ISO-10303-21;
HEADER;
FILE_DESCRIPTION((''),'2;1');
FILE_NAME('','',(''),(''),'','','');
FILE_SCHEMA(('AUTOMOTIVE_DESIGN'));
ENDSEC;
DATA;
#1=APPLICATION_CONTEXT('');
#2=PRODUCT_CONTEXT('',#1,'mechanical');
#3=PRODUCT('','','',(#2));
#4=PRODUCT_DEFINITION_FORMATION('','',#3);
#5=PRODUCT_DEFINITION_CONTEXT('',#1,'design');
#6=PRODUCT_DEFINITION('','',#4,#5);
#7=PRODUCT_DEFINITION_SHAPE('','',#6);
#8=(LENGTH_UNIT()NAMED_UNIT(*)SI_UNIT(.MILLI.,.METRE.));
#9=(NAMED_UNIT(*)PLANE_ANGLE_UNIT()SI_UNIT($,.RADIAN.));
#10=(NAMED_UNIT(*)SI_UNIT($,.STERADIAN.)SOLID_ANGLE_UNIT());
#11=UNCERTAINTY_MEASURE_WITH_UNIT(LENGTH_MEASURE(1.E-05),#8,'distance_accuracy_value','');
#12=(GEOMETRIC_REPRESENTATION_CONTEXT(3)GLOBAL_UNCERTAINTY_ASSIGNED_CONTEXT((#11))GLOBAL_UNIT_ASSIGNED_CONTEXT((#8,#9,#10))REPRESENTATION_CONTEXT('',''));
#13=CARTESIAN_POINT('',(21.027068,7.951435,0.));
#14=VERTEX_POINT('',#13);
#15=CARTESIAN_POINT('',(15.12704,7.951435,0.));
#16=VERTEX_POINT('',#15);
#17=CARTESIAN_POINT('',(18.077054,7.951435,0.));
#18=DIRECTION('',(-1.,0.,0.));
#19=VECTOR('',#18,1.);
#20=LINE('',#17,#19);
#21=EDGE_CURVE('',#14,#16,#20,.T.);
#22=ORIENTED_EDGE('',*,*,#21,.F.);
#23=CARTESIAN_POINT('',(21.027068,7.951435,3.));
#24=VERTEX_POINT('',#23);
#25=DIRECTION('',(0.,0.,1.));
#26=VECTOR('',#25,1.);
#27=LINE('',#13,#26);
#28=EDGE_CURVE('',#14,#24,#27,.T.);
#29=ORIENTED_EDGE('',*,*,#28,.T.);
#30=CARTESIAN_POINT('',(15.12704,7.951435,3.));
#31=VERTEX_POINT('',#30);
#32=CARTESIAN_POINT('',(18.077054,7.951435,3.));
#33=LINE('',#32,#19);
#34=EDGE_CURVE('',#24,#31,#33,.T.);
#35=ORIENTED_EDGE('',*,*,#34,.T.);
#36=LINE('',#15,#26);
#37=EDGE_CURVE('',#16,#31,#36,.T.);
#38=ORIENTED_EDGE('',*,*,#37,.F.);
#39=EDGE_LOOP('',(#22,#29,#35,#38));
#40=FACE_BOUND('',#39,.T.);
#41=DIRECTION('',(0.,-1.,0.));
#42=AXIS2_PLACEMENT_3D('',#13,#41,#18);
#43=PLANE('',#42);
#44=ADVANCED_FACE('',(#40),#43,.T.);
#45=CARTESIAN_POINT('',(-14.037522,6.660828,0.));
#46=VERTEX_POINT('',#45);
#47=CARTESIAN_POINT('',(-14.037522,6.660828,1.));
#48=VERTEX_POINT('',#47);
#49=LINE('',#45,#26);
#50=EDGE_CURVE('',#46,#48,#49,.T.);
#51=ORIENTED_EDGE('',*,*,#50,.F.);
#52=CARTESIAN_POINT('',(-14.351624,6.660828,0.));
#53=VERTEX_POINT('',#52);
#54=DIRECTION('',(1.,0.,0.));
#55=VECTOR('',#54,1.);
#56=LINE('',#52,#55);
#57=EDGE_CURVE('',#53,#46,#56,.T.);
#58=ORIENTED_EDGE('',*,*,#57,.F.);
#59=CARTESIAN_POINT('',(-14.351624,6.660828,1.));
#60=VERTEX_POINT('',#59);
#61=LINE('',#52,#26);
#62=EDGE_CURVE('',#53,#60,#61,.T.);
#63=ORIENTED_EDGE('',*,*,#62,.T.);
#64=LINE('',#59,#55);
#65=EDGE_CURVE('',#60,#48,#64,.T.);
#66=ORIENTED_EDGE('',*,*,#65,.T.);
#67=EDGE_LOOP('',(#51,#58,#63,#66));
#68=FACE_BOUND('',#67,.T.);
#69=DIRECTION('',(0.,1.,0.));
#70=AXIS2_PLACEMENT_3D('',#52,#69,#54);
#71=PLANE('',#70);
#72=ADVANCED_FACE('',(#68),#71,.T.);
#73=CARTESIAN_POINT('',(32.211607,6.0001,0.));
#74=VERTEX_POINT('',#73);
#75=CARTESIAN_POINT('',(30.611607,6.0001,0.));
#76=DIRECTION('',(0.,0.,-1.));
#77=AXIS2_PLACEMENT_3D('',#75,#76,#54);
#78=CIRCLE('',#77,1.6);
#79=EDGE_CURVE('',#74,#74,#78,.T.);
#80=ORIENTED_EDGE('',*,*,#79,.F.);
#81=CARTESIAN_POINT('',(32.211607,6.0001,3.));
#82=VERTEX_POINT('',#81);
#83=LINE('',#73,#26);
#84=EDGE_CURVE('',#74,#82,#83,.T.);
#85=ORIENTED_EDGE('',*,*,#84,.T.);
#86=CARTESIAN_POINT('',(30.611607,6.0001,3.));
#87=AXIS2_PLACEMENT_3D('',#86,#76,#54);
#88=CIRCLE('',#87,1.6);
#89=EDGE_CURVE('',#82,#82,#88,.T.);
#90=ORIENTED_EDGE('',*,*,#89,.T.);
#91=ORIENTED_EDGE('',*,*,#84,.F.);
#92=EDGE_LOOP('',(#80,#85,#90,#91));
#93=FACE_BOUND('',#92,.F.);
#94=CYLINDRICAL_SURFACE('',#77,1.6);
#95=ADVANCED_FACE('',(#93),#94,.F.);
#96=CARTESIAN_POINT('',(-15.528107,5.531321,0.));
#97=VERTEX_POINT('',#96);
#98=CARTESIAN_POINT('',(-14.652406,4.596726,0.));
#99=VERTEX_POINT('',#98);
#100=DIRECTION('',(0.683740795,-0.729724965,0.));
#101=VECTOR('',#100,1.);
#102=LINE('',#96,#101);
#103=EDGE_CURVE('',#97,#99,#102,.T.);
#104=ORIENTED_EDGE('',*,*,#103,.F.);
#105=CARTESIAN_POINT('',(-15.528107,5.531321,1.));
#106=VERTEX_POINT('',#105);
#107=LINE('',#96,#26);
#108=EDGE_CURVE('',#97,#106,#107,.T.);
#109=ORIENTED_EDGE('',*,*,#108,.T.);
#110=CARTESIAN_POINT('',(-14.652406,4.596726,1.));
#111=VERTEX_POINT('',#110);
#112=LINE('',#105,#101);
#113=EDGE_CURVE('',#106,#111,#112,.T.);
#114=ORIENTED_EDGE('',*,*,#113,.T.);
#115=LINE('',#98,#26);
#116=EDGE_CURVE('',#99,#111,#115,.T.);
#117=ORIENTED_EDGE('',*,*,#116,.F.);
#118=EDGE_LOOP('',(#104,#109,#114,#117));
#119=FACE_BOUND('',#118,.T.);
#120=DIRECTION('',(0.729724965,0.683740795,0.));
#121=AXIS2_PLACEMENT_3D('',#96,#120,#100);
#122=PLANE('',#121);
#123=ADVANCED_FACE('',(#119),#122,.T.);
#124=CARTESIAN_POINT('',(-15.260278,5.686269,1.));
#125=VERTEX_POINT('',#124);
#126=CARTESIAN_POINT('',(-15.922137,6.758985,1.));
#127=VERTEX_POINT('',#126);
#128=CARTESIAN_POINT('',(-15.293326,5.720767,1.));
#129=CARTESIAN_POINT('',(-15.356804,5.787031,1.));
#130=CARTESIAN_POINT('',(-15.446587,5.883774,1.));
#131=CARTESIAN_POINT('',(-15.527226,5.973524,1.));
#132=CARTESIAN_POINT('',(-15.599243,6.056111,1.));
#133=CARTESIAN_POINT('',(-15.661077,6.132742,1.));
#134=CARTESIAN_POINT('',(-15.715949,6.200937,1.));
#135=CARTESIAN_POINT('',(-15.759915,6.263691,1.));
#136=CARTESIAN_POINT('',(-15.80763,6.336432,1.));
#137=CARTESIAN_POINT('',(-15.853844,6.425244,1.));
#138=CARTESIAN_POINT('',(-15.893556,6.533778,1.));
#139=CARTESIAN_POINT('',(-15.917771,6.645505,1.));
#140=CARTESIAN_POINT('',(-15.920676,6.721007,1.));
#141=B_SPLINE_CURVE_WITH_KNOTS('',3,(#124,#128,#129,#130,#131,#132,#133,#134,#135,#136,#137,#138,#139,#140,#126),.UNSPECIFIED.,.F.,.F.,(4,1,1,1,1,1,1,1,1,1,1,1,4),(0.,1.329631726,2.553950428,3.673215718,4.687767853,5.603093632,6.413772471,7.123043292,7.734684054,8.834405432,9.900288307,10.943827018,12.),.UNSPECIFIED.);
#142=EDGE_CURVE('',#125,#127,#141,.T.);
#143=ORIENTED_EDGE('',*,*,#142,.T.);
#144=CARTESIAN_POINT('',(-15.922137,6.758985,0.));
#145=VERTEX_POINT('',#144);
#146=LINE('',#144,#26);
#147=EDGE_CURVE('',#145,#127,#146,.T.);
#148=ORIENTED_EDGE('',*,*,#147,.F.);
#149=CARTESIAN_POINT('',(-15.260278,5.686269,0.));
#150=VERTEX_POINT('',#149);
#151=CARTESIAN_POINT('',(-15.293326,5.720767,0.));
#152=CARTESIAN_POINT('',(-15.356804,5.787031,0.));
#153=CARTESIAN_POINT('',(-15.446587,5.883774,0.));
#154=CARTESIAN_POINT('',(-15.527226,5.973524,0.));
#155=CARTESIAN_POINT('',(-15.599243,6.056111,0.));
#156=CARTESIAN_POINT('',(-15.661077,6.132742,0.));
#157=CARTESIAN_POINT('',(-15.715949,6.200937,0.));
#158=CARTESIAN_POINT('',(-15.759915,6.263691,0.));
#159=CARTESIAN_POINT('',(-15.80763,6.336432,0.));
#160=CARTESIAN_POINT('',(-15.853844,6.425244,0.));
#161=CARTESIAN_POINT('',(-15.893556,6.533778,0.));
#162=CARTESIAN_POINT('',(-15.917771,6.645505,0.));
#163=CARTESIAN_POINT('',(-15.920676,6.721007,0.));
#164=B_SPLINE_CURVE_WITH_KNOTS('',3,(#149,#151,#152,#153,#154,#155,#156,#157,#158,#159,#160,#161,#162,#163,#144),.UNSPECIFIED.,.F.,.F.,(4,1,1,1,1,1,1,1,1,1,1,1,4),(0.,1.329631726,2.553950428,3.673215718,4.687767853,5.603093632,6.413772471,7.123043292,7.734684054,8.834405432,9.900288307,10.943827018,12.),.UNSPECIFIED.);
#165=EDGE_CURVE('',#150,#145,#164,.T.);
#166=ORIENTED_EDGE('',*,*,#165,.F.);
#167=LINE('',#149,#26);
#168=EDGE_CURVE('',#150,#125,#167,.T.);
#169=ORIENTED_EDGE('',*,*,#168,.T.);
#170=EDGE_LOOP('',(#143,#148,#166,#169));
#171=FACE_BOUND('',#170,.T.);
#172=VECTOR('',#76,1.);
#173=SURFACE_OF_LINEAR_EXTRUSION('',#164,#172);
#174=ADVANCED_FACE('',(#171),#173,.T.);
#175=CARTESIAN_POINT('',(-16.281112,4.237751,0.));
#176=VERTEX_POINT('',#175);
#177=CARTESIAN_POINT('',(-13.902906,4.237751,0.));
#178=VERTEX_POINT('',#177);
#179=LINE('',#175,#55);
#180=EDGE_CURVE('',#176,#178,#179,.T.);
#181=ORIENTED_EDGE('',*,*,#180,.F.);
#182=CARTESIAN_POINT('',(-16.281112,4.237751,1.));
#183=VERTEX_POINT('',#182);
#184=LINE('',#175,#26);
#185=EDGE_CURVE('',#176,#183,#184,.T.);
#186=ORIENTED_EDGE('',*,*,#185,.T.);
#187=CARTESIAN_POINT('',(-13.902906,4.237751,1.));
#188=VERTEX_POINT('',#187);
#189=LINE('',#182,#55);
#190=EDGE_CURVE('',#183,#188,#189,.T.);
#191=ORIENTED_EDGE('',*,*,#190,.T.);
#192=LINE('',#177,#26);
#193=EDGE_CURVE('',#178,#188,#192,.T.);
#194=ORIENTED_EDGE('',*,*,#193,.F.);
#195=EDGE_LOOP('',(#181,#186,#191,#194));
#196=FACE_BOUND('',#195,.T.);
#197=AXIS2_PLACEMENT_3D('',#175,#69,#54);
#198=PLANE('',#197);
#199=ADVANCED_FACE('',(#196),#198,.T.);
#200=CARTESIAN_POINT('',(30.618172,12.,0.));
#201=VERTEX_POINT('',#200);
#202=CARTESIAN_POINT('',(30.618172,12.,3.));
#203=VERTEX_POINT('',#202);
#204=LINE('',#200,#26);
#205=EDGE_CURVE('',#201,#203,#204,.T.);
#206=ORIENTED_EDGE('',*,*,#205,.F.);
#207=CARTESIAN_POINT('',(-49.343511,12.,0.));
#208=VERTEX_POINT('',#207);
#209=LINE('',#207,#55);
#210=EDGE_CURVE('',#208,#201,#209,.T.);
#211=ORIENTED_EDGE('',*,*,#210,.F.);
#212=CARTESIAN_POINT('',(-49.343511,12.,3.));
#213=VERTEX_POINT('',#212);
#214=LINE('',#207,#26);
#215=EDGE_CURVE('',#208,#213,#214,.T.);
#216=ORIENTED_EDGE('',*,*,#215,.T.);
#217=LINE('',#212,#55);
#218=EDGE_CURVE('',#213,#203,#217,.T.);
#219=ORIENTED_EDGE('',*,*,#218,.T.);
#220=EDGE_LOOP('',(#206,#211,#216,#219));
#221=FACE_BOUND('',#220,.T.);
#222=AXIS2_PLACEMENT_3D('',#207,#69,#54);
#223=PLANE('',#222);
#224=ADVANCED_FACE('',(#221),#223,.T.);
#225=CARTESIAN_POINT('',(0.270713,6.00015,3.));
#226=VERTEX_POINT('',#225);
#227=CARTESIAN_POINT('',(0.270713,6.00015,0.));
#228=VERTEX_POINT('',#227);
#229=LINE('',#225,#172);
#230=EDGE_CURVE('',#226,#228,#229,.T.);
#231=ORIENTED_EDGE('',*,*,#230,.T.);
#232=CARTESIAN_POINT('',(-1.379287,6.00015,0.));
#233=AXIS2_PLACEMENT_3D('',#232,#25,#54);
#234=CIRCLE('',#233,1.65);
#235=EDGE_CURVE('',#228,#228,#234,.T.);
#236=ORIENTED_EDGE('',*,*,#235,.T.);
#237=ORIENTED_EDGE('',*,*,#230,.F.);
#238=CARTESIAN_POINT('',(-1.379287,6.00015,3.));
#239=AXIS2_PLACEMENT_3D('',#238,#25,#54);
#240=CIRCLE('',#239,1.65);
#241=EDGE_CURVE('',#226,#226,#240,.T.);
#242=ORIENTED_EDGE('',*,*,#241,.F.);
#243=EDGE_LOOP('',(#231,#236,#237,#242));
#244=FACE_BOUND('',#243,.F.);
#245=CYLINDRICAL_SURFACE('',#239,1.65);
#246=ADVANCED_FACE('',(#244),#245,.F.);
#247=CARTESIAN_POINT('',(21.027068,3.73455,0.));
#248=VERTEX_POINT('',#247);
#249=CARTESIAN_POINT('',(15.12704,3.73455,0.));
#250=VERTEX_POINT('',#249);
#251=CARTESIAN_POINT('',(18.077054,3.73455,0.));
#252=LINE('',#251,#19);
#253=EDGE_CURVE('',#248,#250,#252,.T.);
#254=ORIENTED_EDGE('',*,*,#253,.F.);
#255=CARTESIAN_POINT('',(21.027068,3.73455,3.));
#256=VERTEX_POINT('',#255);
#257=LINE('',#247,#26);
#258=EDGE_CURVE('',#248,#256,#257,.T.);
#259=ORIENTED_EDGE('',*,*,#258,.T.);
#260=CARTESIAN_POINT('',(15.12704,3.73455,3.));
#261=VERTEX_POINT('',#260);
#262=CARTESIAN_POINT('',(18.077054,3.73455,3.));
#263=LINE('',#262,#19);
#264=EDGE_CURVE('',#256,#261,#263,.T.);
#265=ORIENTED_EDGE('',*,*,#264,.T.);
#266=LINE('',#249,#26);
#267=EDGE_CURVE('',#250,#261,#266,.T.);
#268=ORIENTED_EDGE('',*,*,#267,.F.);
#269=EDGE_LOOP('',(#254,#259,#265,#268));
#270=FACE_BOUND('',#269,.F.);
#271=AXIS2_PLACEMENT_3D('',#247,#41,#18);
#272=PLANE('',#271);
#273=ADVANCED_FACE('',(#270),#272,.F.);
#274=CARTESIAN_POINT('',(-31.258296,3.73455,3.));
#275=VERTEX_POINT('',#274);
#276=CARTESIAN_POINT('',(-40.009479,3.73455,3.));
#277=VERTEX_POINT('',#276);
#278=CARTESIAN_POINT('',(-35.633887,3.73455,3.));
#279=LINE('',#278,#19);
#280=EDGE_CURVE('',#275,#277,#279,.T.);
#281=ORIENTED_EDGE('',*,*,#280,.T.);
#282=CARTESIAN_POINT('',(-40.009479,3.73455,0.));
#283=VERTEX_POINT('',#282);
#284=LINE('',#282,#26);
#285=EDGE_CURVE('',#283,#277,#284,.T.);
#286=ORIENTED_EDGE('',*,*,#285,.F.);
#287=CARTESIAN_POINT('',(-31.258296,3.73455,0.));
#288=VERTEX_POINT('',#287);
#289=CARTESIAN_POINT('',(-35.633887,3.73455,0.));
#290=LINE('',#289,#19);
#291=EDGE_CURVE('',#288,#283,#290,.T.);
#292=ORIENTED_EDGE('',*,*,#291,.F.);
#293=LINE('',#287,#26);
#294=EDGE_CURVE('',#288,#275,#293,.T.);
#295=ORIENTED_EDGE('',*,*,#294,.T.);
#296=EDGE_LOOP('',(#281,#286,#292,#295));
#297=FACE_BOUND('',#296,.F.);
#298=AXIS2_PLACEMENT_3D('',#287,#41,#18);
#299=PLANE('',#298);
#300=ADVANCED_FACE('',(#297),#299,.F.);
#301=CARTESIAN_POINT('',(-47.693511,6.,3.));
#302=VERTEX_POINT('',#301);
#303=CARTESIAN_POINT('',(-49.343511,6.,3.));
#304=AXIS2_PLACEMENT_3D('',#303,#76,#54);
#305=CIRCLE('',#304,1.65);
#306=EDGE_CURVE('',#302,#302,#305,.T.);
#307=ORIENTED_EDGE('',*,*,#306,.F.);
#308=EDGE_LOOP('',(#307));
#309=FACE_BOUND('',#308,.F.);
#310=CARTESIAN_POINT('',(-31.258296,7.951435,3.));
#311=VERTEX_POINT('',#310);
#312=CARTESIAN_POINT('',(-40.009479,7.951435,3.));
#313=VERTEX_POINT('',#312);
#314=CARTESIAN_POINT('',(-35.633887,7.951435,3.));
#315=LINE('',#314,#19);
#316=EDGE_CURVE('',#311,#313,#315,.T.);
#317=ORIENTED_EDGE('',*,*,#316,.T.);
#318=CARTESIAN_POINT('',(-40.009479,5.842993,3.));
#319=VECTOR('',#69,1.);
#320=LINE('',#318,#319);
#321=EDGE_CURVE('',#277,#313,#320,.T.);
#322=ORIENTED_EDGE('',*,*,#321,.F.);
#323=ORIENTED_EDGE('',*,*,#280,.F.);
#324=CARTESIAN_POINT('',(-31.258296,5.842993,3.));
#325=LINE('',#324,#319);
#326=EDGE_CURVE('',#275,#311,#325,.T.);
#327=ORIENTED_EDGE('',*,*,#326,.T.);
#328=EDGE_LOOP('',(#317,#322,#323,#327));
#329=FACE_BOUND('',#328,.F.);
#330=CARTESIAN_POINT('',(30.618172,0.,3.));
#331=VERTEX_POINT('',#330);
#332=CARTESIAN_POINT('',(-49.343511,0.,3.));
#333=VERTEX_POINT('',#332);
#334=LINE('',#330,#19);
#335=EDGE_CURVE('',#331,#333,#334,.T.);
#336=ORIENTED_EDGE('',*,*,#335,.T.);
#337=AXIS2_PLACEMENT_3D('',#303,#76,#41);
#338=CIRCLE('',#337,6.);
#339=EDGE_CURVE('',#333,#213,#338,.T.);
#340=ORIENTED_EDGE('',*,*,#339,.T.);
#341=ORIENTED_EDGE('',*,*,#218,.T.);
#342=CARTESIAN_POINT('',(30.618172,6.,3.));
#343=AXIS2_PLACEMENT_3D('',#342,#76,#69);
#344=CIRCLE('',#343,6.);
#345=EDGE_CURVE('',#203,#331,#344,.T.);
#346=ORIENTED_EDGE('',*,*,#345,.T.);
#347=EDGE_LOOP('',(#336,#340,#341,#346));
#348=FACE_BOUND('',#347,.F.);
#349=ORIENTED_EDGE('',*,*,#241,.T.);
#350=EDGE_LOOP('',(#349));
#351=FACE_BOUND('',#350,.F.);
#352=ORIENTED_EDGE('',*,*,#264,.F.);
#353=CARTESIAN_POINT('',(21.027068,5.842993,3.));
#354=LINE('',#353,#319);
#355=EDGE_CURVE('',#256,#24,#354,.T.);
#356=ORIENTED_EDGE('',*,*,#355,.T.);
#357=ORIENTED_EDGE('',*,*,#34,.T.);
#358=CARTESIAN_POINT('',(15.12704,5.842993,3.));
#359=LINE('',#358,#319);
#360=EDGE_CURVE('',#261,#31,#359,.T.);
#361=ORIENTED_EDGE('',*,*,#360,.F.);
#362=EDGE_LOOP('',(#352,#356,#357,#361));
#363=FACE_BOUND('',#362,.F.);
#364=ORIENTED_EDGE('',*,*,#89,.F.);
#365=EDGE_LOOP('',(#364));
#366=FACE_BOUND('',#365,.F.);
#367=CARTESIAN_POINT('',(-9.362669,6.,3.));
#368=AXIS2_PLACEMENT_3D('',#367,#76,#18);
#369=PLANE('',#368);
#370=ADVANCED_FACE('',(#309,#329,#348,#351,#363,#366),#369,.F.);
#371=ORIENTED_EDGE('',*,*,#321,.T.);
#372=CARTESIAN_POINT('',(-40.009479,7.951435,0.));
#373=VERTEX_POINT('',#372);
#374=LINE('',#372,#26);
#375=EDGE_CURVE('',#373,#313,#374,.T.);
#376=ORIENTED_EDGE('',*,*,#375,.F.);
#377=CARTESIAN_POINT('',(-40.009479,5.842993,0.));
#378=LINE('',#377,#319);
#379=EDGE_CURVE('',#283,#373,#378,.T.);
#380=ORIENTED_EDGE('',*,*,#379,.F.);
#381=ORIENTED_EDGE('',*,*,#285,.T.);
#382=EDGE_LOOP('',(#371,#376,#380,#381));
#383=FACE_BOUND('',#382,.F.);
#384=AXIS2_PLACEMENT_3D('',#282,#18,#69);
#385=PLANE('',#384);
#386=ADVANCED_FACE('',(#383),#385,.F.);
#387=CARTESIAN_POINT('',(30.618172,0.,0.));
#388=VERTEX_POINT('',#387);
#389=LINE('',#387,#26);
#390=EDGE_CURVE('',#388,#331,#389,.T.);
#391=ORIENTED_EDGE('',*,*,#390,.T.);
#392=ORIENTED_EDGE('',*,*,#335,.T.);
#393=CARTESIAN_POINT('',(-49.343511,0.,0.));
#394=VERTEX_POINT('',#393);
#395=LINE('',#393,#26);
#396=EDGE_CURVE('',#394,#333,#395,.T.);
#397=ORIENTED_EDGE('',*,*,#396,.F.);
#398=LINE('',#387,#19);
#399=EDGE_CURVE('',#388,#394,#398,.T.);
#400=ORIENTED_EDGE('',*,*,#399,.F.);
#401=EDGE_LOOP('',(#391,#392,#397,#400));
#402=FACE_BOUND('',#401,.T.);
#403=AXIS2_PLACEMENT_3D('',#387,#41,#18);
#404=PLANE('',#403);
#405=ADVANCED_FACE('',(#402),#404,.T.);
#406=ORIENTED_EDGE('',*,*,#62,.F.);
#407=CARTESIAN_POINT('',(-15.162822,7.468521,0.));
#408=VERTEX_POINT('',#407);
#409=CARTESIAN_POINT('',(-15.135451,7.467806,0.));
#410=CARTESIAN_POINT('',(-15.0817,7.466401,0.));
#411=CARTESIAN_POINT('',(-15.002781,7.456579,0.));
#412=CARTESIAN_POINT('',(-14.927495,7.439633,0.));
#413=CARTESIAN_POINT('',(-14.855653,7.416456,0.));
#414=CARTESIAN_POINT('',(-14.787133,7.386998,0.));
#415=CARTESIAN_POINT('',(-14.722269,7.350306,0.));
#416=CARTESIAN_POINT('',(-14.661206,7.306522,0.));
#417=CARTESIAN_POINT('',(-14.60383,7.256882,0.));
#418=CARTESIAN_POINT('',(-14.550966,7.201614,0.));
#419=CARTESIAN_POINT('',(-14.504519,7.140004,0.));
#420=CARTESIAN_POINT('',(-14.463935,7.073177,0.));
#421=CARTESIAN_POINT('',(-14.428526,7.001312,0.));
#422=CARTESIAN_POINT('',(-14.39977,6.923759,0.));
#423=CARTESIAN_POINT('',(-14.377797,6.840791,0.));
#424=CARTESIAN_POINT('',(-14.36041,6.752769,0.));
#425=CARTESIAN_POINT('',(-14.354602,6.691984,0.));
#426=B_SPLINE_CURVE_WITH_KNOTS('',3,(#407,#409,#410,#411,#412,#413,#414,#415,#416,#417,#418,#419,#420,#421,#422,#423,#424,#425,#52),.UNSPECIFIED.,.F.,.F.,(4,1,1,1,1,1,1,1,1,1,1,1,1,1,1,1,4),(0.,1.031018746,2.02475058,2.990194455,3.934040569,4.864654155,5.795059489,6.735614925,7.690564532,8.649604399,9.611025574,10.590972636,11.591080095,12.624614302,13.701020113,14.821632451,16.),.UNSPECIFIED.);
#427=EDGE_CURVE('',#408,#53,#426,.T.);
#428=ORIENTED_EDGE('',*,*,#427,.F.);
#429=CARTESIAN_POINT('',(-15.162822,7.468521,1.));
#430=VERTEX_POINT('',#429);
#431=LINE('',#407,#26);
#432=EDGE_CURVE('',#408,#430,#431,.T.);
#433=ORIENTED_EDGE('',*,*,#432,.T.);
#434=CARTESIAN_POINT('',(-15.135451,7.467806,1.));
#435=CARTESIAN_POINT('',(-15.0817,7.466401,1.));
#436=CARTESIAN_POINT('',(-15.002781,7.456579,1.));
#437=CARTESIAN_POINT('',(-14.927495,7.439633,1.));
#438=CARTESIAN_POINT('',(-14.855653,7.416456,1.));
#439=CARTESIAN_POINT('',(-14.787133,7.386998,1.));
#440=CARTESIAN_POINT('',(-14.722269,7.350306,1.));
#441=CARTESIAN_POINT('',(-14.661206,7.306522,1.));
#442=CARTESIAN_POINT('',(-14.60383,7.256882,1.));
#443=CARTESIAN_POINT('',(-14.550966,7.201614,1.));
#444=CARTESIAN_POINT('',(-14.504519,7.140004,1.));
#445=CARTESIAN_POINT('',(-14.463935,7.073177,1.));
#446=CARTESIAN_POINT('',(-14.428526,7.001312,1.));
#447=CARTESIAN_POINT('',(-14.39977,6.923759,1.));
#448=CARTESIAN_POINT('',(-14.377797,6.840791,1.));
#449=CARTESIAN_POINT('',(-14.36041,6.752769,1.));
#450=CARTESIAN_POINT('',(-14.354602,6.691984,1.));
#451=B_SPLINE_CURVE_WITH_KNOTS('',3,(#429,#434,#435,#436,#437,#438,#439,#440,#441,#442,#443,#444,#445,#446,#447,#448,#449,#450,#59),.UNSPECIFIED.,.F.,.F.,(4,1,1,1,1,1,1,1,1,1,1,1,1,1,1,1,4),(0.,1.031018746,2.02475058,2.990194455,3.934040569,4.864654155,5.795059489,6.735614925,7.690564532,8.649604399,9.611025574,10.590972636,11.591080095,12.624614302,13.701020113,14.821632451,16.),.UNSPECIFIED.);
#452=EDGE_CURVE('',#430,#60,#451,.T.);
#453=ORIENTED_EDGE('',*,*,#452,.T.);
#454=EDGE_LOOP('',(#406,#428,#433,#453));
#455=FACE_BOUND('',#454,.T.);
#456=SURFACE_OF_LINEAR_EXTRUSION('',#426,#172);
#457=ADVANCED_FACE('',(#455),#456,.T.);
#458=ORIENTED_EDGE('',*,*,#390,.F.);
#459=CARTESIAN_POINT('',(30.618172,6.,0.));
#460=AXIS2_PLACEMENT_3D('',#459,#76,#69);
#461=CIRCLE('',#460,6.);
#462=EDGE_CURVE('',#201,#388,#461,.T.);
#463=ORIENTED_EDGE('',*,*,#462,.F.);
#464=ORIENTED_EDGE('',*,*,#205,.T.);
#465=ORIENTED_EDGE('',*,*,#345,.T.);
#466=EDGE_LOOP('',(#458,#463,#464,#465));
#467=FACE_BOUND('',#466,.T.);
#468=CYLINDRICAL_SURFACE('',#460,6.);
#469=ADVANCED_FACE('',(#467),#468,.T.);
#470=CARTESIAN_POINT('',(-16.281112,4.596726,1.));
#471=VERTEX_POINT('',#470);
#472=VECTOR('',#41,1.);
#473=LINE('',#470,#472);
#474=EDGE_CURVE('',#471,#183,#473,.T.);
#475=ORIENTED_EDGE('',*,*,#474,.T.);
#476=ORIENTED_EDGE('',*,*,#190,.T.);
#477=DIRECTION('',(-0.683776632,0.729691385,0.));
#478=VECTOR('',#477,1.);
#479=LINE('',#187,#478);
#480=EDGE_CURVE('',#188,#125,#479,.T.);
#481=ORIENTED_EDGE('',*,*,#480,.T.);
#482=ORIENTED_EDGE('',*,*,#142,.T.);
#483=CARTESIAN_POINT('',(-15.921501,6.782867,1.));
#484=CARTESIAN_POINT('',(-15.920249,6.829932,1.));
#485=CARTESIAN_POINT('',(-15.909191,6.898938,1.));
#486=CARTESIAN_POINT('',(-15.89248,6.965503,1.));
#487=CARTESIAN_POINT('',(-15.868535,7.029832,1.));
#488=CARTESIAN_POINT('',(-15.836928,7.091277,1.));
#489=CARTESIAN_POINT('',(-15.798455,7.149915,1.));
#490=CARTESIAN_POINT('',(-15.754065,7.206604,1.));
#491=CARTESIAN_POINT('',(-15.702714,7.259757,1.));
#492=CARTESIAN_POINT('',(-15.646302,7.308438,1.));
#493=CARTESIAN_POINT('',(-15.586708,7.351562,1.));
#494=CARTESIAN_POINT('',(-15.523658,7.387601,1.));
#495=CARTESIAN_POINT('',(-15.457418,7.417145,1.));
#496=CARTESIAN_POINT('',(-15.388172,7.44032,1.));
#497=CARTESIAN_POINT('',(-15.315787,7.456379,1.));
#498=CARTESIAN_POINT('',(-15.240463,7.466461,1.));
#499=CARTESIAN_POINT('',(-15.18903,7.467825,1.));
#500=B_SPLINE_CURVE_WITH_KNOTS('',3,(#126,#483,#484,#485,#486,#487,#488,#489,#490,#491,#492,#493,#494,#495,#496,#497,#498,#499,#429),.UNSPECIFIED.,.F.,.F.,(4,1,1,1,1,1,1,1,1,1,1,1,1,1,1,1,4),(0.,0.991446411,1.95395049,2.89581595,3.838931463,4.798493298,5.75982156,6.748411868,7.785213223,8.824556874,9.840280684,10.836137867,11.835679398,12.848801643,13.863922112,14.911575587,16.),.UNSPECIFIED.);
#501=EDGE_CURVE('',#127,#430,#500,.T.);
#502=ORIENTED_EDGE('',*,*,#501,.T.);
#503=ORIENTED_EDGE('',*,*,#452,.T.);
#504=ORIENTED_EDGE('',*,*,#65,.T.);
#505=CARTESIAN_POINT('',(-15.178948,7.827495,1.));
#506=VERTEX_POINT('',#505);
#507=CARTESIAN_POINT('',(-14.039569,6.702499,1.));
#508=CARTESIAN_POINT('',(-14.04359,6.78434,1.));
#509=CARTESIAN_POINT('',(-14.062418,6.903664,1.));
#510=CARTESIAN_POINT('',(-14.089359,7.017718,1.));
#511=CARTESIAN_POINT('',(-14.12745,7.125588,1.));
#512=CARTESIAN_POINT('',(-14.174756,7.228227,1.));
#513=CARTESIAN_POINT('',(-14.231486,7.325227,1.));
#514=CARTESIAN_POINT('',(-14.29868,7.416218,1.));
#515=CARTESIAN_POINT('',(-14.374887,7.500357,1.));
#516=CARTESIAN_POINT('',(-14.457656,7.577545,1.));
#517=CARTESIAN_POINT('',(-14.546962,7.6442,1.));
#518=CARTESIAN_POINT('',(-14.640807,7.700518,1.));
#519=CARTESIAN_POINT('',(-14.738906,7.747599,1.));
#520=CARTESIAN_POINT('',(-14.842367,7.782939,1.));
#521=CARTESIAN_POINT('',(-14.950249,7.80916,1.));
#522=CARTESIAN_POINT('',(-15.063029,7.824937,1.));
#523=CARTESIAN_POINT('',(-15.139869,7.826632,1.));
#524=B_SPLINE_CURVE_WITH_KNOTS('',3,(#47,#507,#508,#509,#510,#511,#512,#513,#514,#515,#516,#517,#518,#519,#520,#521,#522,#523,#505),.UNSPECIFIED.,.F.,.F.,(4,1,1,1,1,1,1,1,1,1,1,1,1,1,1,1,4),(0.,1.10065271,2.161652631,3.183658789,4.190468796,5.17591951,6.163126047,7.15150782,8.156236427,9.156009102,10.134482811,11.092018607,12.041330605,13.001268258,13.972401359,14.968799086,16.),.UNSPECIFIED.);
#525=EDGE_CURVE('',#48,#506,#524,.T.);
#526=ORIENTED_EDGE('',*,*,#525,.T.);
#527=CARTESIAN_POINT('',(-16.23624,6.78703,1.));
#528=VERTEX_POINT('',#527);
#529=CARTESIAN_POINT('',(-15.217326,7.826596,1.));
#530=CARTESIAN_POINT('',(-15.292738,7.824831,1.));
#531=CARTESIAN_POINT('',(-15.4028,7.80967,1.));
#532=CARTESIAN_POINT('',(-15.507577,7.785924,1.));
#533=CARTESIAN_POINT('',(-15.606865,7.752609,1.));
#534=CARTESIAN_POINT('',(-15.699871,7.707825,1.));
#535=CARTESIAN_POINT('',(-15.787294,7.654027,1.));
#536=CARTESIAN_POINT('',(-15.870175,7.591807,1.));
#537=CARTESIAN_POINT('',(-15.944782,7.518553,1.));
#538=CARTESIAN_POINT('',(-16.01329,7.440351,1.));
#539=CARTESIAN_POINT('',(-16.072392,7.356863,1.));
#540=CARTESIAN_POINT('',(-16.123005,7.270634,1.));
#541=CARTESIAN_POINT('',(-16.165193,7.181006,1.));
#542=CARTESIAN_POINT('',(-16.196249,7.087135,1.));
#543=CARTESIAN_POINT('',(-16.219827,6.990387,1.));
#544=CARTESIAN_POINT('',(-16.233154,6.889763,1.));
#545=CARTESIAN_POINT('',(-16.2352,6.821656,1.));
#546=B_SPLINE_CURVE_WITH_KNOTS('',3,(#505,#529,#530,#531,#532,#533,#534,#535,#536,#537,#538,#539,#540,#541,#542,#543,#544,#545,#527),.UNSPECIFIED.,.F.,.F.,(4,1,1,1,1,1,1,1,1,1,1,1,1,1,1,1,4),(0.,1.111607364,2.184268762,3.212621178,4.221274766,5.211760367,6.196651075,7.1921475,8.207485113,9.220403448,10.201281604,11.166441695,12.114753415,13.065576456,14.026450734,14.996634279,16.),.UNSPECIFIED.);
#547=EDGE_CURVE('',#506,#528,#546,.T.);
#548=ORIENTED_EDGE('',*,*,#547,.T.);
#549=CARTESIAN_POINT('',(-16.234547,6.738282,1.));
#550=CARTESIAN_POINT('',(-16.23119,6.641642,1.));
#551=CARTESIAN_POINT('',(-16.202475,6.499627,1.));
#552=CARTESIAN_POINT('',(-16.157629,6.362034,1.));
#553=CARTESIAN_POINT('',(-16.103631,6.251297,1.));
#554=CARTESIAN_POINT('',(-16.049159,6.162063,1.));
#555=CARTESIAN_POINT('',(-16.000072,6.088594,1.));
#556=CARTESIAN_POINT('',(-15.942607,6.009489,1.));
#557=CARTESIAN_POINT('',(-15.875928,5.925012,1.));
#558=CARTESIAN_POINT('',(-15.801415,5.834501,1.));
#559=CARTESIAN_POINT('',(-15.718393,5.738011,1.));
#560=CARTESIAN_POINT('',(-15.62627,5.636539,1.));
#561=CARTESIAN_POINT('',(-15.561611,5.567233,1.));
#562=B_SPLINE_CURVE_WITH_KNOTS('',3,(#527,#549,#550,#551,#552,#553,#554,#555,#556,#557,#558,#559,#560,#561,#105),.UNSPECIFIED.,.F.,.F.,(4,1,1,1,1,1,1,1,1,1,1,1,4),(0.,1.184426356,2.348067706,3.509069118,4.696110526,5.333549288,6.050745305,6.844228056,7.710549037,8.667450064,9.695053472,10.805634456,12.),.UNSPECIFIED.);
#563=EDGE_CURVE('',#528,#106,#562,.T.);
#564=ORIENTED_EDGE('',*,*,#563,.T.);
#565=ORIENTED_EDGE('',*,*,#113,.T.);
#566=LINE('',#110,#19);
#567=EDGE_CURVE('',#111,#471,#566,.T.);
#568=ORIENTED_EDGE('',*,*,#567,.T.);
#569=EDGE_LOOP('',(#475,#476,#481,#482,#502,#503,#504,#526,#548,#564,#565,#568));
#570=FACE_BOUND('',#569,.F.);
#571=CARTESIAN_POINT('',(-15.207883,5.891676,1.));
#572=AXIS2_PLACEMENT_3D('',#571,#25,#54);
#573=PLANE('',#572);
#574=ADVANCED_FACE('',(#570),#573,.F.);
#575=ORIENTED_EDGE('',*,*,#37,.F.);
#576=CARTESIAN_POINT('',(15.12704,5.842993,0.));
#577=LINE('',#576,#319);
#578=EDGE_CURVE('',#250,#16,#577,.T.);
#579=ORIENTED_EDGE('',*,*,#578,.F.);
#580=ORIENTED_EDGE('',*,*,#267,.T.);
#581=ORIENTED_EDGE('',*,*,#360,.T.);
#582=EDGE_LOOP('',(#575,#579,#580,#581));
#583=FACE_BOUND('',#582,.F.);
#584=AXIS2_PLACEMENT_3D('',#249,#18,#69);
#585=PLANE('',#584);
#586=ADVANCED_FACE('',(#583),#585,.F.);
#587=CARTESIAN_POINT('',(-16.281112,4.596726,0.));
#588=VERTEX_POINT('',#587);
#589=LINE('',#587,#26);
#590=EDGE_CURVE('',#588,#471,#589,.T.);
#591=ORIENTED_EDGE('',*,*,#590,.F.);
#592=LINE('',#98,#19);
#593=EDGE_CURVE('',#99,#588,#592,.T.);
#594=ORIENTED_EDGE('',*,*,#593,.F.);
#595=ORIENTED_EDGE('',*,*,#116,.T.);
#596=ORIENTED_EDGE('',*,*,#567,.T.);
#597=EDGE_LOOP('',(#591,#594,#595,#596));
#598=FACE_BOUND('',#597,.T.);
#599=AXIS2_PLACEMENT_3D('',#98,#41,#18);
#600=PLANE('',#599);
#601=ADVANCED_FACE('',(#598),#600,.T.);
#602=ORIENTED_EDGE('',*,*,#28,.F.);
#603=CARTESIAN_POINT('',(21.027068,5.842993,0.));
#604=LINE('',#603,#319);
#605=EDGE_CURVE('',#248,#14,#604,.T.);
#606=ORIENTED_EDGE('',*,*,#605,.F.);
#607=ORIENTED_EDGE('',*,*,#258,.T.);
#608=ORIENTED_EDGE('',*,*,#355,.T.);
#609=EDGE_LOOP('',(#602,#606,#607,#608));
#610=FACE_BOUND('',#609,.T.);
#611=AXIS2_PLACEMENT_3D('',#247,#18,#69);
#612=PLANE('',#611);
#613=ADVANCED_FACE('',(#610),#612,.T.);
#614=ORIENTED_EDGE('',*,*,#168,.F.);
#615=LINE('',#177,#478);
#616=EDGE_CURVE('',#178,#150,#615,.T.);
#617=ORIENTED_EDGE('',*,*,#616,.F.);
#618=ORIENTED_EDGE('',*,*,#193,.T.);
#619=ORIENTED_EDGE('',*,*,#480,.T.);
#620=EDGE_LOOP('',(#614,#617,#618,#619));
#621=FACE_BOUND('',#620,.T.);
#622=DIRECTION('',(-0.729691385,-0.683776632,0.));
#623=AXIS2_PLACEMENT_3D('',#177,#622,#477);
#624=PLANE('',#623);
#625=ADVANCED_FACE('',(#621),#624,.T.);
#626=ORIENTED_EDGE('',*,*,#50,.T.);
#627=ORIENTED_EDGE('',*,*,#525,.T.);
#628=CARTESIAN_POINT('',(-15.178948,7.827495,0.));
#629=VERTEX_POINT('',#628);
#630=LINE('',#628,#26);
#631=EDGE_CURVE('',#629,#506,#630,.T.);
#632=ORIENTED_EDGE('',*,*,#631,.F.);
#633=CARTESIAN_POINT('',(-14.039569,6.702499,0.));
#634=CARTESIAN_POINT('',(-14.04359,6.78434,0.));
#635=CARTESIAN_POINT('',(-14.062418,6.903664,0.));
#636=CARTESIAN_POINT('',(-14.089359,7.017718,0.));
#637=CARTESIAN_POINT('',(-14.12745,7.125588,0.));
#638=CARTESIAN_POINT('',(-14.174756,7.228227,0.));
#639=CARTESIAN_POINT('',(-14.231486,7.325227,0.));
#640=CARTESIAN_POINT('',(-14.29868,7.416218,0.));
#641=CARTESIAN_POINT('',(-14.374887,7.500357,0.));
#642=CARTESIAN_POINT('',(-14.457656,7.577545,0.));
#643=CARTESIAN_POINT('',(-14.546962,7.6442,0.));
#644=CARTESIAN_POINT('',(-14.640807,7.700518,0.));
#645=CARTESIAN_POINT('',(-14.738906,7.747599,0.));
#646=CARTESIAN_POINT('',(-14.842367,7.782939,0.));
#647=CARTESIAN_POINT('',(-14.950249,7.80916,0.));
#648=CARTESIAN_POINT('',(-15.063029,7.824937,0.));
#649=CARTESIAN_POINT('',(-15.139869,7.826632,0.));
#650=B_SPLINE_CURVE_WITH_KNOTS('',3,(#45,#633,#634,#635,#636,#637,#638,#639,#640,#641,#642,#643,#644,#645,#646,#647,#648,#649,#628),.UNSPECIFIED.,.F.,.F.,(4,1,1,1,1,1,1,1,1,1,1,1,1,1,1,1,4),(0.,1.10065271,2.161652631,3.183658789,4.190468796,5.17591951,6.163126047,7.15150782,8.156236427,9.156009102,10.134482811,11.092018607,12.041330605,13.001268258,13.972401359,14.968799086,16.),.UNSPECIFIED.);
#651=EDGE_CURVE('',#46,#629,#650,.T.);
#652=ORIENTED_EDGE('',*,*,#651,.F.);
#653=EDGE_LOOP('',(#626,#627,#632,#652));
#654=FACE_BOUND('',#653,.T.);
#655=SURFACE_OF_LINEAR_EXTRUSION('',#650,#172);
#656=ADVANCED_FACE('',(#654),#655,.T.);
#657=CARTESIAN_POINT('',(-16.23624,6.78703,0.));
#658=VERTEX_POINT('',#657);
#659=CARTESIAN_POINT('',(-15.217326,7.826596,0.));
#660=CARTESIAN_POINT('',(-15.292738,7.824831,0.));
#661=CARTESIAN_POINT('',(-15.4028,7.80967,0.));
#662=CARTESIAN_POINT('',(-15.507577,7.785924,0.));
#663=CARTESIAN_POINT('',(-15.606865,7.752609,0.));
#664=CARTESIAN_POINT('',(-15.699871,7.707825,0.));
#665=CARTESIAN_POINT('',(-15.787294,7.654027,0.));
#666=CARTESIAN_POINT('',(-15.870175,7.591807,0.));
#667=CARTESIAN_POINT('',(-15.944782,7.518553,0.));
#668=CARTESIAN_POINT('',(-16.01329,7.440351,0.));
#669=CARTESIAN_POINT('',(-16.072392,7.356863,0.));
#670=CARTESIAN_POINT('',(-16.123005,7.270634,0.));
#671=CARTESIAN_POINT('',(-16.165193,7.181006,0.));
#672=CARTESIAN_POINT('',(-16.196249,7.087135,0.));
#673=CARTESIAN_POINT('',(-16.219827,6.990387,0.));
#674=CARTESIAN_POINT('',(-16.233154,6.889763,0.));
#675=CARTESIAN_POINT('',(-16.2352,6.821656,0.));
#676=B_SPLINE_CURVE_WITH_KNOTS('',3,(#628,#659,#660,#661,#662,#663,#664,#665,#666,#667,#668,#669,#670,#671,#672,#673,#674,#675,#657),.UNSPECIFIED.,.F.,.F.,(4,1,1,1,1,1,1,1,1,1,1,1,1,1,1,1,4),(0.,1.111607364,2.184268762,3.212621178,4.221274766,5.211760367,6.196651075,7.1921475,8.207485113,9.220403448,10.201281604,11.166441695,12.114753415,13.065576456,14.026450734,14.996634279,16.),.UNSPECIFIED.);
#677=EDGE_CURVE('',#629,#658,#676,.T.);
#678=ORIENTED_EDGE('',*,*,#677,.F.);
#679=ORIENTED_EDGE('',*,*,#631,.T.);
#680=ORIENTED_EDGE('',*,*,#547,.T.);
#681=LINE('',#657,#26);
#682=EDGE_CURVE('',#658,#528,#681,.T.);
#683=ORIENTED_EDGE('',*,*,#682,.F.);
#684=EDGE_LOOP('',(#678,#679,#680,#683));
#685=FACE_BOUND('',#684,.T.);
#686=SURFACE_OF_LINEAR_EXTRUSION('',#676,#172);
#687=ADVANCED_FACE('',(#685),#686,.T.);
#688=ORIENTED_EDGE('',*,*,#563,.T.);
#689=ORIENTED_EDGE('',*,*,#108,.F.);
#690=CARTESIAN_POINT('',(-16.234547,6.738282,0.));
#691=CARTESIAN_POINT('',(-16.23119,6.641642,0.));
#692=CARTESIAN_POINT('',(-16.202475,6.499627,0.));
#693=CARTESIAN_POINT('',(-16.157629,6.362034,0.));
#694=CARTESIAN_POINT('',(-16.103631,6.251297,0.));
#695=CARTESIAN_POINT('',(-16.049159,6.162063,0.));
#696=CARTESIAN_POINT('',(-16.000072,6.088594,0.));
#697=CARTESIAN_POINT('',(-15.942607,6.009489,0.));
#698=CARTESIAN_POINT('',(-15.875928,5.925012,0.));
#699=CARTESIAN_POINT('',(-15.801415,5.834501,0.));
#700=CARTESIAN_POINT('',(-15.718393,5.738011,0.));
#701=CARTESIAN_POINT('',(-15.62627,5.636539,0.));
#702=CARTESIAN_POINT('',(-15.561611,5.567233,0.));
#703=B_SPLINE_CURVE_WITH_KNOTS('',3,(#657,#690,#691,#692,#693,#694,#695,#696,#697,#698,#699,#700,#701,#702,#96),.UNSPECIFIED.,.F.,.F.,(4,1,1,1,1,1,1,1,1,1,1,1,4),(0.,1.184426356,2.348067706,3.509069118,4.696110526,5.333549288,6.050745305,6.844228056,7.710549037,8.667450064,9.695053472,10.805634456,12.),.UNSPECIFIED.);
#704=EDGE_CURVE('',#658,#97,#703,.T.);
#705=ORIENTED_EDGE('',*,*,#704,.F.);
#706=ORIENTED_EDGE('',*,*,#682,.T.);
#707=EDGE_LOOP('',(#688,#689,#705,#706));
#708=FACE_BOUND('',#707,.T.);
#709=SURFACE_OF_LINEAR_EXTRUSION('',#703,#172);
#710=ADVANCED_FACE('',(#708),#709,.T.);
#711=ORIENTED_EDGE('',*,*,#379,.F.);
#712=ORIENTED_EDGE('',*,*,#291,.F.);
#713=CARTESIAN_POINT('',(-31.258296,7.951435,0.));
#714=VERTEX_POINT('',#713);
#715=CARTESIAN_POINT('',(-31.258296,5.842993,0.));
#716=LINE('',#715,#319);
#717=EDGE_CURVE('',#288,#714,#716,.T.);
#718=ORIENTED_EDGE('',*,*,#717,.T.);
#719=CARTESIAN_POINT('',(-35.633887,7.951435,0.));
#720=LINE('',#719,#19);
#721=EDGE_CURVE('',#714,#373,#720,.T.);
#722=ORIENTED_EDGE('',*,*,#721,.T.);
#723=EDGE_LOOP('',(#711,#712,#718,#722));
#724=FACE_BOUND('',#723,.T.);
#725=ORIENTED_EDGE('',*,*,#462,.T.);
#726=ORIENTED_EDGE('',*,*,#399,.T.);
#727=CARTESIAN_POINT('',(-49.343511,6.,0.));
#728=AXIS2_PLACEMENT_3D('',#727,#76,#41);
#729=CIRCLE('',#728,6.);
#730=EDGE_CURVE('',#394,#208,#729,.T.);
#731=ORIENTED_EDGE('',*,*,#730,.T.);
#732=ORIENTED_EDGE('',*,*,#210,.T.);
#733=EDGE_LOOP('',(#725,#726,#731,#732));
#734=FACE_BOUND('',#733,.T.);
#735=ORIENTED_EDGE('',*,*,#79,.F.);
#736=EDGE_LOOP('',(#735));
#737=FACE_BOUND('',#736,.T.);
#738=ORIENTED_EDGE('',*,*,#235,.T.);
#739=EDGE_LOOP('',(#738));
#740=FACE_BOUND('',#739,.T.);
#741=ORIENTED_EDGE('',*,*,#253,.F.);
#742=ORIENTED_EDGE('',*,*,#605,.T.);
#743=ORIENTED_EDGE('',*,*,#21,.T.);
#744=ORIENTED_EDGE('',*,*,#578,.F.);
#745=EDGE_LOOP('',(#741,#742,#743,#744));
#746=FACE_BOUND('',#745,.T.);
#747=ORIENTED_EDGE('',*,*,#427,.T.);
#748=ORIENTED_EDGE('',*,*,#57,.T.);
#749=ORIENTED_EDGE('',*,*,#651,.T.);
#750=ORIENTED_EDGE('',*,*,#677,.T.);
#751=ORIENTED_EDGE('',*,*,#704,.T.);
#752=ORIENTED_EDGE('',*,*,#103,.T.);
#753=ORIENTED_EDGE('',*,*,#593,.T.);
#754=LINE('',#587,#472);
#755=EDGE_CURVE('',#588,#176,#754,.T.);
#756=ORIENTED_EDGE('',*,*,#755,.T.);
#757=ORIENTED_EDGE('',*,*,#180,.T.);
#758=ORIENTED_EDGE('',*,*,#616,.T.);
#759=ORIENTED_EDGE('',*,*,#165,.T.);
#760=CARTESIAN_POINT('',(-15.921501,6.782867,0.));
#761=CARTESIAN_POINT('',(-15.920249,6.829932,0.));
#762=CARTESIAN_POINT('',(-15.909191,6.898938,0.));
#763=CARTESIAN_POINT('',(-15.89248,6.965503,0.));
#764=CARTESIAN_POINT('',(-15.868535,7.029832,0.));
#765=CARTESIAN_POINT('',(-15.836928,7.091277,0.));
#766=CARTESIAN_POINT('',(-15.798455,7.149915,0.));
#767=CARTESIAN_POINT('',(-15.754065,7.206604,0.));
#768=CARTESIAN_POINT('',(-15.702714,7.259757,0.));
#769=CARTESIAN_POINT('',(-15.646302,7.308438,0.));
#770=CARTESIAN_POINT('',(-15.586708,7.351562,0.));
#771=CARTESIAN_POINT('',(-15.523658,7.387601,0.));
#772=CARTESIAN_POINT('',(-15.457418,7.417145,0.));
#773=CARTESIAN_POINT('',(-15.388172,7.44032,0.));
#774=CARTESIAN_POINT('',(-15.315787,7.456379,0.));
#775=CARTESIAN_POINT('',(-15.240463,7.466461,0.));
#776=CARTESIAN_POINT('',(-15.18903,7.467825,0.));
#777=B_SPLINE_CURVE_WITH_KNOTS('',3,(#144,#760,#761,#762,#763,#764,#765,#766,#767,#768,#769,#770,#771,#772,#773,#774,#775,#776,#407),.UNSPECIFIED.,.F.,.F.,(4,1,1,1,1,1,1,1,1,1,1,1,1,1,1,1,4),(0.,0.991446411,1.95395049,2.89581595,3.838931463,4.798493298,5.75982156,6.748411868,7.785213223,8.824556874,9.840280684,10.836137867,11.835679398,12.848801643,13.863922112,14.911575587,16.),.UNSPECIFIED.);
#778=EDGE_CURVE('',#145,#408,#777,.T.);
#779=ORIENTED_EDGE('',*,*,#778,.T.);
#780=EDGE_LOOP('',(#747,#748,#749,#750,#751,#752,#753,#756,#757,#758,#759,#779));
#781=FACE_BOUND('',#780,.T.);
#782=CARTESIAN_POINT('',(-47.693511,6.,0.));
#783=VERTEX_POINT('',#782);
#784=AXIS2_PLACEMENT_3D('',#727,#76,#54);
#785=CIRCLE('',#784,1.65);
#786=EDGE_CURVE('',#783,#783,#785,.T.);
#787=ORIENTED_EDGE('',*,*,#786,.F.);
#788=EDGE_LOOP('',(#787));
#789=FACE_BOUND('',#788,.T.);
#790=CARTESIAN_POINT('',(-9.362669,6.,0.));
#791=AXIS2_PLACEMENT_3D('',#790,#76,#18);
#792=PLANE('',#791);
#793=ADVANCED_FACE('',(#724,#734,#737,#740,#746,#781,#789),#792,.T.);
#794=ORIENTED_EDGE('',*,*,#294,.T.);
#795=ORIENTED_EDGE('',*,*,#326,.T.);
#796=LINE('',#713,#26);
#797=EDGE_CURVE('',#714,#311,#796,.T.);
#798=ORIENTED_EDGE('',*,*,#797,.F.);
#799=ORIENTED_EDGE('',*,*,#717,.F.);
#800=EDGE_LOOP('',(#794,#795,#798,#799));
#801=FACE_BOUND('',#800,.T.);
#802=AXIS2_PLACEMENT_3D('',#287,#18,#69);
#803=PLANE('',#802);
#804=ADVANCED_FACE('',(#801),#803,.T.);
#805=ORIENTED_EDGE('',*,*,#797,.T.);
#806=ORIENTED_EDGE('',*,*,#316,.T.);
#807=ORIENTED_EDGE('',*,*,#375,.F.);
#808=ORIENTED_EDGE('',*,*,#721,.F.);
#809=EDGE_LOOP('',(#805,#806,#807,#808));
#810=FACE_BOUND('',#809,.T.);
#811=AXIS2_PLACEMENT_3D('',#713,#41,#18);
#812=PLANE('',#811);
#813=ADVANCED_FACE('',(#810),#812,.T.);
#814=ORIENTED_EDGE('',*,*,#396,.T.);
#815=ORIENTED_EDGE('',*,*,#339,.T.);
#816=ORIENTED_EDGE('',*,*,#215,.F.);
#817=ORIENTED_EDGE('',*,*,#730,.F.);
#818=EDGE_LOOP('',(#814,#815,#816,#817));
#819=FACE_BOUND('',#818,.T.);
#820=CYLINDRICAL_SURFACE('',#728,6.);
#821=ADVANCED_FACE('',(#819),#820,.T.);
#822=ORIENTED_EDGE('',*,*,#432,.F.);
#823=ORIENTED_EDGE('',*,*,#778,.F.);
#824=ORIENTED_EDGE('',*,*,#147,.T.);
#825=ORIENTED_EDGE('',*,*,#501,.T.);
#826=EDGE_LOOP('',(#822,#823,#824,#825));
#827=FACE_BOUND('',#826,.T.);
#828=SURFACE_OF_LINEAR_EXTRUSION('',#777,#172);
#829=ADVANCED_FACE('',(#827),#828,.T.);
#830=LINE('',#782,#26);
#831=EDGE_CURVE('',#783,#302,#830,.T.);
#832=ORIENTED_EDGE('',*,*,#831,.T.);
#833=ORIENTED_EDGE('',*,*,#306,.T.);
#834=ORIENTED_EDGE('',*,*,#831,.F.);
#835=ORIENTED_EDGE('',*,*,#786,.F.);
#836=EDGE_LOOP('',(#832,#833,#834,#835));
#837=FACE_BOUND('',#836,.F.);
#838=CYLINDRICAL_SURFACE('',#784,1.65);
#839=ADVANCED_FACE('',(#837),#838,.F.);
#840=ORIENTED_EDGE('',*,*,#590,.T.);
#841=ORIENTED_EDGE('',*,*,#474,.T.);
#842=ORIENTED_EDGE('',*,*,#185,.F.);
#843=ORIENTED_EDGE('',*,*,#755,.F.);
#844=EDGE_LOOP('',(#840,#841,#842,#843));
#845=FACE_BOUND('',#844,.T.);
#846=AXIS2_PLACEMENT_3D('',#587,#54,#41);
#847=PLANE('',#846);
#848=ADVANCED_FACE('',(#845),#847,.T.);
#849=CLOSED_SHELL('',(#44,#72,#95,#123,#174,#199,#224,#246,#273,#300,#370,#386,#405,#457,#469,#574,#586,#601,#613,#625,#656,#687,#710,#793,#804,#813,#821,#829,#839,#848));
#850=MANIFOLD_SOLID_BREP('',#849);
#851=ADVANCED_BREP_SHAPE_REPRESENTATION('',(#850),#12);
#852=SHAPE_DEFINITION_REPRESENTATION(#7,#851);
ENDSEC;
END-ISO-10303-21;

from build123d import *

# Parameters (mm, degrees)
SKETCH_1_R          = 1.65
SKETCH_1_R_2        = 1.3
SKETCH_1_R_3        = 1.6
SKETCH_1_W          = 8.751182885
SKETCH_1_H          = 4.216885397
SKETCH_1_W_2        = 5.900028074
EXTRUDE_1_DEPTH     = 3
SKETCH_2_R          = 1.65
CUT_EXTRUDE_1_DEPTH = 57.708942736
CUT_EXTRUDE_3_DEPTH = 1


with BuildPart() as part:
    # 草图1 → 凸台-拉伸1 (new body)
    with BuildSketch(Plane(origin=(0, 0, 0), x_dir=(-1, 0, 0), z_dir=(0, 0, -1))):
        with BuildLine():
            Line((-30.618171933, 0), (49.343510787, 0))
            ThreePointArc((49.343510787, 0), (55.343510787, 6), (49.343510787, 12))
            Line((49.343510787, 12), (-30.618171933, 12))
            ThreePointArc((-30.618171933, 12), (-36.618171933, 6), (-30.618171933, 0))
        make_face()
        with Locations(Location((49.343510787, 6, 0), (0, 0, 180))):
            Circle(SKETCH_1_R, mode=Mode.SUBTRACT)
        with Locations(Location((1.379286828, 6.00015, 0), (0, 0, 180))):
            Circle(SKETCH_1_R_2, mode=Mode.SUBTRACT)
        with Locations(Location((-30.611606698, 6.0001, 0), (0, 0, 180))):
            Circle(SKETCH_1_R_3, mode=Mode.SUBTRACT)
        with Locations((35.633887137, 5.842992625)):
            Rectangle(SKETCH_1_W, SKETCH_1_H, mode=Mode.SUBTRACT)
        with Locations((-18.07705416, 5.842992625)):
            Rectangle(SKETCH_1_W_2, SKETCH_1_H, mode=Mode.SUBTRACT)
    extrude(amount=-EXTRUDE_1_DEPTH)

    # 草图2 → 切除-拉伸1 (cut, through all)
    with BuildSketch(Plane.XY.offset(3)):
        with Locations((-49.343510787, 6)):
            Circle(SKETCH_2_R)
        with Locations((-1.379286828, 6.00015)):
            Circle(SKETCH_2_R)
    extrude(amount=-CUT_EXTRUDE_1_DEPTH, mode=Mode.SUBTRACT)

    # 草图4 → 切除-拉伸3 (cut)
    with BuildSketch(Plane(origin=(0, 0, 0), x_dir=(-1, 0, 0), z_dir=(0, 0, -1))):
        with BuildLine():
            Line((14.3516244, 6.660828267), (14.037521836, 6.660828267))
            add(Edge.make_bspline(
                [(14.037521836, 6.660828267), (14.039568989, 6.702499155), (14.043589543, 6.78433967), (14.062417832, 6.903663576), (14.089358709, 7.017718375), (14.127450163, 7.125588289), (14.174756441, 7.228227096), (14.231486468, 7.325227112), (14.298680319, 7.4162183), (14.374887053, 7.500357144), (14.457655692, 7.577544715), (14.546961631, 7.644199957), (14.640806659, 7.700517629), (14.738906058, 7.747598871), (14.842366621, 7.782938716), (14.950249479, 7.809160356), (15.063028615, 7.824936702), (15.139868637, 7.826632487), (15.178948118, 7.827494934)],
                knots=[0, 0, 0, 0, 1.10065271, 2.161652631, 3.183658789, 4.190468796, 5.17591951, 6.163126047, 7.15150782, 8.156236427, 9.156009102, 10.134482811, 11.092018607, 12.041330605, 13.001268258, 13.972401359, 14.968799086, 16, 16, 16, 16], degree=3))
            add(Edge.make_bspline(
                [(15.178948118, 7.827494934), (15.217326192, 7.826596478), (15.292737736, 7.824831043), (15.402799751, 7.809670014), (15.507577045, 7.785924422), (15.606864812, 7.752609006), (15.699870876, 7.707824578), (15.787293921, 7.65402704), (15.870174732, 7.591807208), (15.944781515, 7.518553395), (16.013289595, 7.44035101), (16.07239185, 7.356863107), (16.123005013, 7.270633821), (16.165192693, 7.181005619), (16.196248832, 7.087134591), (16.21982704, 6.990387388), (16.233154454, 6.889762577), (16.235199877, 6.821656021), (16.236239784, 6.78703019)],
                knots=[0, 0, 0, 0, 1.111607364, 2.184268762, 3.212621178, 4.221274766, 5.211760367, 6.196651075, 7.1921475, 8.207485113, 9.220403448, 10.201281604, 11.166441695, 12.114753415, 13.065576456, 14.026450734, 14.996634279, 16, 16, 16, 16], degree=3))
            add(Edge.make_bspline(
                [(16.236239784, 6.78703019), (16.234546521, 6.738282356), (16.23118971, 6.641642142), (16.202475333, 6.499627279), (16.157628822, 6.36203386), (16.103631466, 6.251296558), (16.049159021, 6.162063065), (16.000071514, 6.08859436), (15.942606703, 6.009488891), (15.875928205, 5.925011554), (15.801415333, 5.834500649), (15.718393169, 5.738010853), (15.626269687, 5.636539084), (15.561611187, 5.567233482), (15.528106771, 5.531321056)],
                knots=[0, 0, 0, 0, 1.184426356, 2.348067706, 3.509069118, 4.696110526, 5.333549288, 6.050745305, 6.844228056, 7.710549037, 8.667450064, 9.695053472, 10.805634456, 12, 12, 12, 12], degree=3))
            Line((15.528106771, 5.531321056), (14.65240565, 4.596725703))
            Line((14.65240565, 4.596725703), (16.281111579, 4.596725703))
            Line((16.281111579, 4.596725703), (16.281111579, 4.237751344))
            Line((16.281111579, 4.237751344), (13.902906451, 4.237751344))
            Line((13.902906451, 4.237751344), (15.260278246, 5.686268973))
            add(Edge.make_bspline(
                [(15.260278246, 5.686268973), (15.293326133, 5.720767279), (15.35680436, 5.787031466), (15.446586937, 5.883774426), (15.527225925, 5.973523967), (15.599243318, 6.056110515), (15.661076823, 6.132742083), (15.715949055, 6.200936786), (15.759914646, 6.263691237), (15.807630042, 6.336431851), (15.853844023, 6.425244168), (15.893556379, 6.533777857), (15.917771227, 6.64550511), (15.920676063, 6.721007147), (15.92213722, 6.758985319)],
                knots=[0, 0, 0, 0, 1.329631726, 2.553950428, 3.673215718, 4.687767853, 5.603093632, 6.413772471, 7.123043292, 7.734684054, 8.834405432, 9.900288307, 10.943827018, 12, 12, 12, 12], degree=3))
            add(Edge.make_bspline(
                [(15.92213722, 6.758985319), (15.921501478, 6.782866717), (15.920248552, 6.829932367), (15.909190854, 6.898938126), (15.892480348, 6.96550294), (15.86853509, 7.029831559), (15.83692835, 7.091277211), (15.79845497, 7.149914692), (15.754064907, 7.206603657), (15.702713637, 7.259756955), (15.646302118, 7.30843816), (15.586707868, 7.351562246), (15.523657764, 7.387601357), (15.457417642, 7.417144854), (15.388172172, 7.440320235), (15.315787427, 7.456378814), (15.240463411, 7.466461298), (15.189029915, 7.46782547), (15.162822316, 7.468520575)],
                knots=[0, 0, 0, 0, 0.991446411, 1.95395049, 2.89581595, 3.838931463, 4.798493298, 5.75982156, 6.748411868, 7.785213223, 8.824556874, 9.840280684, 10.836137867, 11.835679398, 12.848801643, 13.863922112, 14.911575587, 16, 16, 16, 16], degree=3))
            add(Edge.make_bspline(
                [(15.162822316, 7.468520575), (15.135451484, 7.467805543), (15.081699687, 7.466401338), (15.002780654, 7.456578674), (14.927494877, 7.439632833), (14.855652974, 7.416456159), (14.787133388, 7.38699761), (14.722269344, 7.350305865), (14.661206455, 7.306522372), (14.603829931, 7.256881816), (14.550965952, 7.201614215), (14.504519077, 7.140004251), (14.463935062, 7.073176836), (14.428525829, 7.001312286), (14.399770139, 6.923758506), (14.377796988, 6.840790801), (14.360410142, 6.752769419), (14.354601621, 6.691984334), (14.3516244, 6.660828267)],
                knots=[0, 0, 0, 0, 1.031018746, 2.02475058, 2.990194455, 3.934040569, 4.864654155, 5.795059489, 6.735614925, 7.690564532, 8.649604399, 9.611025574, 10.590972636, 11.591080095, 12.624614302, 13.701020113, 14.821632451, 16, 16, 16, 16], degree=3))
        make_face()
    extrude(amount=-CUT_EXTRUDE_3_DEPTH, mode=Mode.SUBTRACT)


solid = part.part
